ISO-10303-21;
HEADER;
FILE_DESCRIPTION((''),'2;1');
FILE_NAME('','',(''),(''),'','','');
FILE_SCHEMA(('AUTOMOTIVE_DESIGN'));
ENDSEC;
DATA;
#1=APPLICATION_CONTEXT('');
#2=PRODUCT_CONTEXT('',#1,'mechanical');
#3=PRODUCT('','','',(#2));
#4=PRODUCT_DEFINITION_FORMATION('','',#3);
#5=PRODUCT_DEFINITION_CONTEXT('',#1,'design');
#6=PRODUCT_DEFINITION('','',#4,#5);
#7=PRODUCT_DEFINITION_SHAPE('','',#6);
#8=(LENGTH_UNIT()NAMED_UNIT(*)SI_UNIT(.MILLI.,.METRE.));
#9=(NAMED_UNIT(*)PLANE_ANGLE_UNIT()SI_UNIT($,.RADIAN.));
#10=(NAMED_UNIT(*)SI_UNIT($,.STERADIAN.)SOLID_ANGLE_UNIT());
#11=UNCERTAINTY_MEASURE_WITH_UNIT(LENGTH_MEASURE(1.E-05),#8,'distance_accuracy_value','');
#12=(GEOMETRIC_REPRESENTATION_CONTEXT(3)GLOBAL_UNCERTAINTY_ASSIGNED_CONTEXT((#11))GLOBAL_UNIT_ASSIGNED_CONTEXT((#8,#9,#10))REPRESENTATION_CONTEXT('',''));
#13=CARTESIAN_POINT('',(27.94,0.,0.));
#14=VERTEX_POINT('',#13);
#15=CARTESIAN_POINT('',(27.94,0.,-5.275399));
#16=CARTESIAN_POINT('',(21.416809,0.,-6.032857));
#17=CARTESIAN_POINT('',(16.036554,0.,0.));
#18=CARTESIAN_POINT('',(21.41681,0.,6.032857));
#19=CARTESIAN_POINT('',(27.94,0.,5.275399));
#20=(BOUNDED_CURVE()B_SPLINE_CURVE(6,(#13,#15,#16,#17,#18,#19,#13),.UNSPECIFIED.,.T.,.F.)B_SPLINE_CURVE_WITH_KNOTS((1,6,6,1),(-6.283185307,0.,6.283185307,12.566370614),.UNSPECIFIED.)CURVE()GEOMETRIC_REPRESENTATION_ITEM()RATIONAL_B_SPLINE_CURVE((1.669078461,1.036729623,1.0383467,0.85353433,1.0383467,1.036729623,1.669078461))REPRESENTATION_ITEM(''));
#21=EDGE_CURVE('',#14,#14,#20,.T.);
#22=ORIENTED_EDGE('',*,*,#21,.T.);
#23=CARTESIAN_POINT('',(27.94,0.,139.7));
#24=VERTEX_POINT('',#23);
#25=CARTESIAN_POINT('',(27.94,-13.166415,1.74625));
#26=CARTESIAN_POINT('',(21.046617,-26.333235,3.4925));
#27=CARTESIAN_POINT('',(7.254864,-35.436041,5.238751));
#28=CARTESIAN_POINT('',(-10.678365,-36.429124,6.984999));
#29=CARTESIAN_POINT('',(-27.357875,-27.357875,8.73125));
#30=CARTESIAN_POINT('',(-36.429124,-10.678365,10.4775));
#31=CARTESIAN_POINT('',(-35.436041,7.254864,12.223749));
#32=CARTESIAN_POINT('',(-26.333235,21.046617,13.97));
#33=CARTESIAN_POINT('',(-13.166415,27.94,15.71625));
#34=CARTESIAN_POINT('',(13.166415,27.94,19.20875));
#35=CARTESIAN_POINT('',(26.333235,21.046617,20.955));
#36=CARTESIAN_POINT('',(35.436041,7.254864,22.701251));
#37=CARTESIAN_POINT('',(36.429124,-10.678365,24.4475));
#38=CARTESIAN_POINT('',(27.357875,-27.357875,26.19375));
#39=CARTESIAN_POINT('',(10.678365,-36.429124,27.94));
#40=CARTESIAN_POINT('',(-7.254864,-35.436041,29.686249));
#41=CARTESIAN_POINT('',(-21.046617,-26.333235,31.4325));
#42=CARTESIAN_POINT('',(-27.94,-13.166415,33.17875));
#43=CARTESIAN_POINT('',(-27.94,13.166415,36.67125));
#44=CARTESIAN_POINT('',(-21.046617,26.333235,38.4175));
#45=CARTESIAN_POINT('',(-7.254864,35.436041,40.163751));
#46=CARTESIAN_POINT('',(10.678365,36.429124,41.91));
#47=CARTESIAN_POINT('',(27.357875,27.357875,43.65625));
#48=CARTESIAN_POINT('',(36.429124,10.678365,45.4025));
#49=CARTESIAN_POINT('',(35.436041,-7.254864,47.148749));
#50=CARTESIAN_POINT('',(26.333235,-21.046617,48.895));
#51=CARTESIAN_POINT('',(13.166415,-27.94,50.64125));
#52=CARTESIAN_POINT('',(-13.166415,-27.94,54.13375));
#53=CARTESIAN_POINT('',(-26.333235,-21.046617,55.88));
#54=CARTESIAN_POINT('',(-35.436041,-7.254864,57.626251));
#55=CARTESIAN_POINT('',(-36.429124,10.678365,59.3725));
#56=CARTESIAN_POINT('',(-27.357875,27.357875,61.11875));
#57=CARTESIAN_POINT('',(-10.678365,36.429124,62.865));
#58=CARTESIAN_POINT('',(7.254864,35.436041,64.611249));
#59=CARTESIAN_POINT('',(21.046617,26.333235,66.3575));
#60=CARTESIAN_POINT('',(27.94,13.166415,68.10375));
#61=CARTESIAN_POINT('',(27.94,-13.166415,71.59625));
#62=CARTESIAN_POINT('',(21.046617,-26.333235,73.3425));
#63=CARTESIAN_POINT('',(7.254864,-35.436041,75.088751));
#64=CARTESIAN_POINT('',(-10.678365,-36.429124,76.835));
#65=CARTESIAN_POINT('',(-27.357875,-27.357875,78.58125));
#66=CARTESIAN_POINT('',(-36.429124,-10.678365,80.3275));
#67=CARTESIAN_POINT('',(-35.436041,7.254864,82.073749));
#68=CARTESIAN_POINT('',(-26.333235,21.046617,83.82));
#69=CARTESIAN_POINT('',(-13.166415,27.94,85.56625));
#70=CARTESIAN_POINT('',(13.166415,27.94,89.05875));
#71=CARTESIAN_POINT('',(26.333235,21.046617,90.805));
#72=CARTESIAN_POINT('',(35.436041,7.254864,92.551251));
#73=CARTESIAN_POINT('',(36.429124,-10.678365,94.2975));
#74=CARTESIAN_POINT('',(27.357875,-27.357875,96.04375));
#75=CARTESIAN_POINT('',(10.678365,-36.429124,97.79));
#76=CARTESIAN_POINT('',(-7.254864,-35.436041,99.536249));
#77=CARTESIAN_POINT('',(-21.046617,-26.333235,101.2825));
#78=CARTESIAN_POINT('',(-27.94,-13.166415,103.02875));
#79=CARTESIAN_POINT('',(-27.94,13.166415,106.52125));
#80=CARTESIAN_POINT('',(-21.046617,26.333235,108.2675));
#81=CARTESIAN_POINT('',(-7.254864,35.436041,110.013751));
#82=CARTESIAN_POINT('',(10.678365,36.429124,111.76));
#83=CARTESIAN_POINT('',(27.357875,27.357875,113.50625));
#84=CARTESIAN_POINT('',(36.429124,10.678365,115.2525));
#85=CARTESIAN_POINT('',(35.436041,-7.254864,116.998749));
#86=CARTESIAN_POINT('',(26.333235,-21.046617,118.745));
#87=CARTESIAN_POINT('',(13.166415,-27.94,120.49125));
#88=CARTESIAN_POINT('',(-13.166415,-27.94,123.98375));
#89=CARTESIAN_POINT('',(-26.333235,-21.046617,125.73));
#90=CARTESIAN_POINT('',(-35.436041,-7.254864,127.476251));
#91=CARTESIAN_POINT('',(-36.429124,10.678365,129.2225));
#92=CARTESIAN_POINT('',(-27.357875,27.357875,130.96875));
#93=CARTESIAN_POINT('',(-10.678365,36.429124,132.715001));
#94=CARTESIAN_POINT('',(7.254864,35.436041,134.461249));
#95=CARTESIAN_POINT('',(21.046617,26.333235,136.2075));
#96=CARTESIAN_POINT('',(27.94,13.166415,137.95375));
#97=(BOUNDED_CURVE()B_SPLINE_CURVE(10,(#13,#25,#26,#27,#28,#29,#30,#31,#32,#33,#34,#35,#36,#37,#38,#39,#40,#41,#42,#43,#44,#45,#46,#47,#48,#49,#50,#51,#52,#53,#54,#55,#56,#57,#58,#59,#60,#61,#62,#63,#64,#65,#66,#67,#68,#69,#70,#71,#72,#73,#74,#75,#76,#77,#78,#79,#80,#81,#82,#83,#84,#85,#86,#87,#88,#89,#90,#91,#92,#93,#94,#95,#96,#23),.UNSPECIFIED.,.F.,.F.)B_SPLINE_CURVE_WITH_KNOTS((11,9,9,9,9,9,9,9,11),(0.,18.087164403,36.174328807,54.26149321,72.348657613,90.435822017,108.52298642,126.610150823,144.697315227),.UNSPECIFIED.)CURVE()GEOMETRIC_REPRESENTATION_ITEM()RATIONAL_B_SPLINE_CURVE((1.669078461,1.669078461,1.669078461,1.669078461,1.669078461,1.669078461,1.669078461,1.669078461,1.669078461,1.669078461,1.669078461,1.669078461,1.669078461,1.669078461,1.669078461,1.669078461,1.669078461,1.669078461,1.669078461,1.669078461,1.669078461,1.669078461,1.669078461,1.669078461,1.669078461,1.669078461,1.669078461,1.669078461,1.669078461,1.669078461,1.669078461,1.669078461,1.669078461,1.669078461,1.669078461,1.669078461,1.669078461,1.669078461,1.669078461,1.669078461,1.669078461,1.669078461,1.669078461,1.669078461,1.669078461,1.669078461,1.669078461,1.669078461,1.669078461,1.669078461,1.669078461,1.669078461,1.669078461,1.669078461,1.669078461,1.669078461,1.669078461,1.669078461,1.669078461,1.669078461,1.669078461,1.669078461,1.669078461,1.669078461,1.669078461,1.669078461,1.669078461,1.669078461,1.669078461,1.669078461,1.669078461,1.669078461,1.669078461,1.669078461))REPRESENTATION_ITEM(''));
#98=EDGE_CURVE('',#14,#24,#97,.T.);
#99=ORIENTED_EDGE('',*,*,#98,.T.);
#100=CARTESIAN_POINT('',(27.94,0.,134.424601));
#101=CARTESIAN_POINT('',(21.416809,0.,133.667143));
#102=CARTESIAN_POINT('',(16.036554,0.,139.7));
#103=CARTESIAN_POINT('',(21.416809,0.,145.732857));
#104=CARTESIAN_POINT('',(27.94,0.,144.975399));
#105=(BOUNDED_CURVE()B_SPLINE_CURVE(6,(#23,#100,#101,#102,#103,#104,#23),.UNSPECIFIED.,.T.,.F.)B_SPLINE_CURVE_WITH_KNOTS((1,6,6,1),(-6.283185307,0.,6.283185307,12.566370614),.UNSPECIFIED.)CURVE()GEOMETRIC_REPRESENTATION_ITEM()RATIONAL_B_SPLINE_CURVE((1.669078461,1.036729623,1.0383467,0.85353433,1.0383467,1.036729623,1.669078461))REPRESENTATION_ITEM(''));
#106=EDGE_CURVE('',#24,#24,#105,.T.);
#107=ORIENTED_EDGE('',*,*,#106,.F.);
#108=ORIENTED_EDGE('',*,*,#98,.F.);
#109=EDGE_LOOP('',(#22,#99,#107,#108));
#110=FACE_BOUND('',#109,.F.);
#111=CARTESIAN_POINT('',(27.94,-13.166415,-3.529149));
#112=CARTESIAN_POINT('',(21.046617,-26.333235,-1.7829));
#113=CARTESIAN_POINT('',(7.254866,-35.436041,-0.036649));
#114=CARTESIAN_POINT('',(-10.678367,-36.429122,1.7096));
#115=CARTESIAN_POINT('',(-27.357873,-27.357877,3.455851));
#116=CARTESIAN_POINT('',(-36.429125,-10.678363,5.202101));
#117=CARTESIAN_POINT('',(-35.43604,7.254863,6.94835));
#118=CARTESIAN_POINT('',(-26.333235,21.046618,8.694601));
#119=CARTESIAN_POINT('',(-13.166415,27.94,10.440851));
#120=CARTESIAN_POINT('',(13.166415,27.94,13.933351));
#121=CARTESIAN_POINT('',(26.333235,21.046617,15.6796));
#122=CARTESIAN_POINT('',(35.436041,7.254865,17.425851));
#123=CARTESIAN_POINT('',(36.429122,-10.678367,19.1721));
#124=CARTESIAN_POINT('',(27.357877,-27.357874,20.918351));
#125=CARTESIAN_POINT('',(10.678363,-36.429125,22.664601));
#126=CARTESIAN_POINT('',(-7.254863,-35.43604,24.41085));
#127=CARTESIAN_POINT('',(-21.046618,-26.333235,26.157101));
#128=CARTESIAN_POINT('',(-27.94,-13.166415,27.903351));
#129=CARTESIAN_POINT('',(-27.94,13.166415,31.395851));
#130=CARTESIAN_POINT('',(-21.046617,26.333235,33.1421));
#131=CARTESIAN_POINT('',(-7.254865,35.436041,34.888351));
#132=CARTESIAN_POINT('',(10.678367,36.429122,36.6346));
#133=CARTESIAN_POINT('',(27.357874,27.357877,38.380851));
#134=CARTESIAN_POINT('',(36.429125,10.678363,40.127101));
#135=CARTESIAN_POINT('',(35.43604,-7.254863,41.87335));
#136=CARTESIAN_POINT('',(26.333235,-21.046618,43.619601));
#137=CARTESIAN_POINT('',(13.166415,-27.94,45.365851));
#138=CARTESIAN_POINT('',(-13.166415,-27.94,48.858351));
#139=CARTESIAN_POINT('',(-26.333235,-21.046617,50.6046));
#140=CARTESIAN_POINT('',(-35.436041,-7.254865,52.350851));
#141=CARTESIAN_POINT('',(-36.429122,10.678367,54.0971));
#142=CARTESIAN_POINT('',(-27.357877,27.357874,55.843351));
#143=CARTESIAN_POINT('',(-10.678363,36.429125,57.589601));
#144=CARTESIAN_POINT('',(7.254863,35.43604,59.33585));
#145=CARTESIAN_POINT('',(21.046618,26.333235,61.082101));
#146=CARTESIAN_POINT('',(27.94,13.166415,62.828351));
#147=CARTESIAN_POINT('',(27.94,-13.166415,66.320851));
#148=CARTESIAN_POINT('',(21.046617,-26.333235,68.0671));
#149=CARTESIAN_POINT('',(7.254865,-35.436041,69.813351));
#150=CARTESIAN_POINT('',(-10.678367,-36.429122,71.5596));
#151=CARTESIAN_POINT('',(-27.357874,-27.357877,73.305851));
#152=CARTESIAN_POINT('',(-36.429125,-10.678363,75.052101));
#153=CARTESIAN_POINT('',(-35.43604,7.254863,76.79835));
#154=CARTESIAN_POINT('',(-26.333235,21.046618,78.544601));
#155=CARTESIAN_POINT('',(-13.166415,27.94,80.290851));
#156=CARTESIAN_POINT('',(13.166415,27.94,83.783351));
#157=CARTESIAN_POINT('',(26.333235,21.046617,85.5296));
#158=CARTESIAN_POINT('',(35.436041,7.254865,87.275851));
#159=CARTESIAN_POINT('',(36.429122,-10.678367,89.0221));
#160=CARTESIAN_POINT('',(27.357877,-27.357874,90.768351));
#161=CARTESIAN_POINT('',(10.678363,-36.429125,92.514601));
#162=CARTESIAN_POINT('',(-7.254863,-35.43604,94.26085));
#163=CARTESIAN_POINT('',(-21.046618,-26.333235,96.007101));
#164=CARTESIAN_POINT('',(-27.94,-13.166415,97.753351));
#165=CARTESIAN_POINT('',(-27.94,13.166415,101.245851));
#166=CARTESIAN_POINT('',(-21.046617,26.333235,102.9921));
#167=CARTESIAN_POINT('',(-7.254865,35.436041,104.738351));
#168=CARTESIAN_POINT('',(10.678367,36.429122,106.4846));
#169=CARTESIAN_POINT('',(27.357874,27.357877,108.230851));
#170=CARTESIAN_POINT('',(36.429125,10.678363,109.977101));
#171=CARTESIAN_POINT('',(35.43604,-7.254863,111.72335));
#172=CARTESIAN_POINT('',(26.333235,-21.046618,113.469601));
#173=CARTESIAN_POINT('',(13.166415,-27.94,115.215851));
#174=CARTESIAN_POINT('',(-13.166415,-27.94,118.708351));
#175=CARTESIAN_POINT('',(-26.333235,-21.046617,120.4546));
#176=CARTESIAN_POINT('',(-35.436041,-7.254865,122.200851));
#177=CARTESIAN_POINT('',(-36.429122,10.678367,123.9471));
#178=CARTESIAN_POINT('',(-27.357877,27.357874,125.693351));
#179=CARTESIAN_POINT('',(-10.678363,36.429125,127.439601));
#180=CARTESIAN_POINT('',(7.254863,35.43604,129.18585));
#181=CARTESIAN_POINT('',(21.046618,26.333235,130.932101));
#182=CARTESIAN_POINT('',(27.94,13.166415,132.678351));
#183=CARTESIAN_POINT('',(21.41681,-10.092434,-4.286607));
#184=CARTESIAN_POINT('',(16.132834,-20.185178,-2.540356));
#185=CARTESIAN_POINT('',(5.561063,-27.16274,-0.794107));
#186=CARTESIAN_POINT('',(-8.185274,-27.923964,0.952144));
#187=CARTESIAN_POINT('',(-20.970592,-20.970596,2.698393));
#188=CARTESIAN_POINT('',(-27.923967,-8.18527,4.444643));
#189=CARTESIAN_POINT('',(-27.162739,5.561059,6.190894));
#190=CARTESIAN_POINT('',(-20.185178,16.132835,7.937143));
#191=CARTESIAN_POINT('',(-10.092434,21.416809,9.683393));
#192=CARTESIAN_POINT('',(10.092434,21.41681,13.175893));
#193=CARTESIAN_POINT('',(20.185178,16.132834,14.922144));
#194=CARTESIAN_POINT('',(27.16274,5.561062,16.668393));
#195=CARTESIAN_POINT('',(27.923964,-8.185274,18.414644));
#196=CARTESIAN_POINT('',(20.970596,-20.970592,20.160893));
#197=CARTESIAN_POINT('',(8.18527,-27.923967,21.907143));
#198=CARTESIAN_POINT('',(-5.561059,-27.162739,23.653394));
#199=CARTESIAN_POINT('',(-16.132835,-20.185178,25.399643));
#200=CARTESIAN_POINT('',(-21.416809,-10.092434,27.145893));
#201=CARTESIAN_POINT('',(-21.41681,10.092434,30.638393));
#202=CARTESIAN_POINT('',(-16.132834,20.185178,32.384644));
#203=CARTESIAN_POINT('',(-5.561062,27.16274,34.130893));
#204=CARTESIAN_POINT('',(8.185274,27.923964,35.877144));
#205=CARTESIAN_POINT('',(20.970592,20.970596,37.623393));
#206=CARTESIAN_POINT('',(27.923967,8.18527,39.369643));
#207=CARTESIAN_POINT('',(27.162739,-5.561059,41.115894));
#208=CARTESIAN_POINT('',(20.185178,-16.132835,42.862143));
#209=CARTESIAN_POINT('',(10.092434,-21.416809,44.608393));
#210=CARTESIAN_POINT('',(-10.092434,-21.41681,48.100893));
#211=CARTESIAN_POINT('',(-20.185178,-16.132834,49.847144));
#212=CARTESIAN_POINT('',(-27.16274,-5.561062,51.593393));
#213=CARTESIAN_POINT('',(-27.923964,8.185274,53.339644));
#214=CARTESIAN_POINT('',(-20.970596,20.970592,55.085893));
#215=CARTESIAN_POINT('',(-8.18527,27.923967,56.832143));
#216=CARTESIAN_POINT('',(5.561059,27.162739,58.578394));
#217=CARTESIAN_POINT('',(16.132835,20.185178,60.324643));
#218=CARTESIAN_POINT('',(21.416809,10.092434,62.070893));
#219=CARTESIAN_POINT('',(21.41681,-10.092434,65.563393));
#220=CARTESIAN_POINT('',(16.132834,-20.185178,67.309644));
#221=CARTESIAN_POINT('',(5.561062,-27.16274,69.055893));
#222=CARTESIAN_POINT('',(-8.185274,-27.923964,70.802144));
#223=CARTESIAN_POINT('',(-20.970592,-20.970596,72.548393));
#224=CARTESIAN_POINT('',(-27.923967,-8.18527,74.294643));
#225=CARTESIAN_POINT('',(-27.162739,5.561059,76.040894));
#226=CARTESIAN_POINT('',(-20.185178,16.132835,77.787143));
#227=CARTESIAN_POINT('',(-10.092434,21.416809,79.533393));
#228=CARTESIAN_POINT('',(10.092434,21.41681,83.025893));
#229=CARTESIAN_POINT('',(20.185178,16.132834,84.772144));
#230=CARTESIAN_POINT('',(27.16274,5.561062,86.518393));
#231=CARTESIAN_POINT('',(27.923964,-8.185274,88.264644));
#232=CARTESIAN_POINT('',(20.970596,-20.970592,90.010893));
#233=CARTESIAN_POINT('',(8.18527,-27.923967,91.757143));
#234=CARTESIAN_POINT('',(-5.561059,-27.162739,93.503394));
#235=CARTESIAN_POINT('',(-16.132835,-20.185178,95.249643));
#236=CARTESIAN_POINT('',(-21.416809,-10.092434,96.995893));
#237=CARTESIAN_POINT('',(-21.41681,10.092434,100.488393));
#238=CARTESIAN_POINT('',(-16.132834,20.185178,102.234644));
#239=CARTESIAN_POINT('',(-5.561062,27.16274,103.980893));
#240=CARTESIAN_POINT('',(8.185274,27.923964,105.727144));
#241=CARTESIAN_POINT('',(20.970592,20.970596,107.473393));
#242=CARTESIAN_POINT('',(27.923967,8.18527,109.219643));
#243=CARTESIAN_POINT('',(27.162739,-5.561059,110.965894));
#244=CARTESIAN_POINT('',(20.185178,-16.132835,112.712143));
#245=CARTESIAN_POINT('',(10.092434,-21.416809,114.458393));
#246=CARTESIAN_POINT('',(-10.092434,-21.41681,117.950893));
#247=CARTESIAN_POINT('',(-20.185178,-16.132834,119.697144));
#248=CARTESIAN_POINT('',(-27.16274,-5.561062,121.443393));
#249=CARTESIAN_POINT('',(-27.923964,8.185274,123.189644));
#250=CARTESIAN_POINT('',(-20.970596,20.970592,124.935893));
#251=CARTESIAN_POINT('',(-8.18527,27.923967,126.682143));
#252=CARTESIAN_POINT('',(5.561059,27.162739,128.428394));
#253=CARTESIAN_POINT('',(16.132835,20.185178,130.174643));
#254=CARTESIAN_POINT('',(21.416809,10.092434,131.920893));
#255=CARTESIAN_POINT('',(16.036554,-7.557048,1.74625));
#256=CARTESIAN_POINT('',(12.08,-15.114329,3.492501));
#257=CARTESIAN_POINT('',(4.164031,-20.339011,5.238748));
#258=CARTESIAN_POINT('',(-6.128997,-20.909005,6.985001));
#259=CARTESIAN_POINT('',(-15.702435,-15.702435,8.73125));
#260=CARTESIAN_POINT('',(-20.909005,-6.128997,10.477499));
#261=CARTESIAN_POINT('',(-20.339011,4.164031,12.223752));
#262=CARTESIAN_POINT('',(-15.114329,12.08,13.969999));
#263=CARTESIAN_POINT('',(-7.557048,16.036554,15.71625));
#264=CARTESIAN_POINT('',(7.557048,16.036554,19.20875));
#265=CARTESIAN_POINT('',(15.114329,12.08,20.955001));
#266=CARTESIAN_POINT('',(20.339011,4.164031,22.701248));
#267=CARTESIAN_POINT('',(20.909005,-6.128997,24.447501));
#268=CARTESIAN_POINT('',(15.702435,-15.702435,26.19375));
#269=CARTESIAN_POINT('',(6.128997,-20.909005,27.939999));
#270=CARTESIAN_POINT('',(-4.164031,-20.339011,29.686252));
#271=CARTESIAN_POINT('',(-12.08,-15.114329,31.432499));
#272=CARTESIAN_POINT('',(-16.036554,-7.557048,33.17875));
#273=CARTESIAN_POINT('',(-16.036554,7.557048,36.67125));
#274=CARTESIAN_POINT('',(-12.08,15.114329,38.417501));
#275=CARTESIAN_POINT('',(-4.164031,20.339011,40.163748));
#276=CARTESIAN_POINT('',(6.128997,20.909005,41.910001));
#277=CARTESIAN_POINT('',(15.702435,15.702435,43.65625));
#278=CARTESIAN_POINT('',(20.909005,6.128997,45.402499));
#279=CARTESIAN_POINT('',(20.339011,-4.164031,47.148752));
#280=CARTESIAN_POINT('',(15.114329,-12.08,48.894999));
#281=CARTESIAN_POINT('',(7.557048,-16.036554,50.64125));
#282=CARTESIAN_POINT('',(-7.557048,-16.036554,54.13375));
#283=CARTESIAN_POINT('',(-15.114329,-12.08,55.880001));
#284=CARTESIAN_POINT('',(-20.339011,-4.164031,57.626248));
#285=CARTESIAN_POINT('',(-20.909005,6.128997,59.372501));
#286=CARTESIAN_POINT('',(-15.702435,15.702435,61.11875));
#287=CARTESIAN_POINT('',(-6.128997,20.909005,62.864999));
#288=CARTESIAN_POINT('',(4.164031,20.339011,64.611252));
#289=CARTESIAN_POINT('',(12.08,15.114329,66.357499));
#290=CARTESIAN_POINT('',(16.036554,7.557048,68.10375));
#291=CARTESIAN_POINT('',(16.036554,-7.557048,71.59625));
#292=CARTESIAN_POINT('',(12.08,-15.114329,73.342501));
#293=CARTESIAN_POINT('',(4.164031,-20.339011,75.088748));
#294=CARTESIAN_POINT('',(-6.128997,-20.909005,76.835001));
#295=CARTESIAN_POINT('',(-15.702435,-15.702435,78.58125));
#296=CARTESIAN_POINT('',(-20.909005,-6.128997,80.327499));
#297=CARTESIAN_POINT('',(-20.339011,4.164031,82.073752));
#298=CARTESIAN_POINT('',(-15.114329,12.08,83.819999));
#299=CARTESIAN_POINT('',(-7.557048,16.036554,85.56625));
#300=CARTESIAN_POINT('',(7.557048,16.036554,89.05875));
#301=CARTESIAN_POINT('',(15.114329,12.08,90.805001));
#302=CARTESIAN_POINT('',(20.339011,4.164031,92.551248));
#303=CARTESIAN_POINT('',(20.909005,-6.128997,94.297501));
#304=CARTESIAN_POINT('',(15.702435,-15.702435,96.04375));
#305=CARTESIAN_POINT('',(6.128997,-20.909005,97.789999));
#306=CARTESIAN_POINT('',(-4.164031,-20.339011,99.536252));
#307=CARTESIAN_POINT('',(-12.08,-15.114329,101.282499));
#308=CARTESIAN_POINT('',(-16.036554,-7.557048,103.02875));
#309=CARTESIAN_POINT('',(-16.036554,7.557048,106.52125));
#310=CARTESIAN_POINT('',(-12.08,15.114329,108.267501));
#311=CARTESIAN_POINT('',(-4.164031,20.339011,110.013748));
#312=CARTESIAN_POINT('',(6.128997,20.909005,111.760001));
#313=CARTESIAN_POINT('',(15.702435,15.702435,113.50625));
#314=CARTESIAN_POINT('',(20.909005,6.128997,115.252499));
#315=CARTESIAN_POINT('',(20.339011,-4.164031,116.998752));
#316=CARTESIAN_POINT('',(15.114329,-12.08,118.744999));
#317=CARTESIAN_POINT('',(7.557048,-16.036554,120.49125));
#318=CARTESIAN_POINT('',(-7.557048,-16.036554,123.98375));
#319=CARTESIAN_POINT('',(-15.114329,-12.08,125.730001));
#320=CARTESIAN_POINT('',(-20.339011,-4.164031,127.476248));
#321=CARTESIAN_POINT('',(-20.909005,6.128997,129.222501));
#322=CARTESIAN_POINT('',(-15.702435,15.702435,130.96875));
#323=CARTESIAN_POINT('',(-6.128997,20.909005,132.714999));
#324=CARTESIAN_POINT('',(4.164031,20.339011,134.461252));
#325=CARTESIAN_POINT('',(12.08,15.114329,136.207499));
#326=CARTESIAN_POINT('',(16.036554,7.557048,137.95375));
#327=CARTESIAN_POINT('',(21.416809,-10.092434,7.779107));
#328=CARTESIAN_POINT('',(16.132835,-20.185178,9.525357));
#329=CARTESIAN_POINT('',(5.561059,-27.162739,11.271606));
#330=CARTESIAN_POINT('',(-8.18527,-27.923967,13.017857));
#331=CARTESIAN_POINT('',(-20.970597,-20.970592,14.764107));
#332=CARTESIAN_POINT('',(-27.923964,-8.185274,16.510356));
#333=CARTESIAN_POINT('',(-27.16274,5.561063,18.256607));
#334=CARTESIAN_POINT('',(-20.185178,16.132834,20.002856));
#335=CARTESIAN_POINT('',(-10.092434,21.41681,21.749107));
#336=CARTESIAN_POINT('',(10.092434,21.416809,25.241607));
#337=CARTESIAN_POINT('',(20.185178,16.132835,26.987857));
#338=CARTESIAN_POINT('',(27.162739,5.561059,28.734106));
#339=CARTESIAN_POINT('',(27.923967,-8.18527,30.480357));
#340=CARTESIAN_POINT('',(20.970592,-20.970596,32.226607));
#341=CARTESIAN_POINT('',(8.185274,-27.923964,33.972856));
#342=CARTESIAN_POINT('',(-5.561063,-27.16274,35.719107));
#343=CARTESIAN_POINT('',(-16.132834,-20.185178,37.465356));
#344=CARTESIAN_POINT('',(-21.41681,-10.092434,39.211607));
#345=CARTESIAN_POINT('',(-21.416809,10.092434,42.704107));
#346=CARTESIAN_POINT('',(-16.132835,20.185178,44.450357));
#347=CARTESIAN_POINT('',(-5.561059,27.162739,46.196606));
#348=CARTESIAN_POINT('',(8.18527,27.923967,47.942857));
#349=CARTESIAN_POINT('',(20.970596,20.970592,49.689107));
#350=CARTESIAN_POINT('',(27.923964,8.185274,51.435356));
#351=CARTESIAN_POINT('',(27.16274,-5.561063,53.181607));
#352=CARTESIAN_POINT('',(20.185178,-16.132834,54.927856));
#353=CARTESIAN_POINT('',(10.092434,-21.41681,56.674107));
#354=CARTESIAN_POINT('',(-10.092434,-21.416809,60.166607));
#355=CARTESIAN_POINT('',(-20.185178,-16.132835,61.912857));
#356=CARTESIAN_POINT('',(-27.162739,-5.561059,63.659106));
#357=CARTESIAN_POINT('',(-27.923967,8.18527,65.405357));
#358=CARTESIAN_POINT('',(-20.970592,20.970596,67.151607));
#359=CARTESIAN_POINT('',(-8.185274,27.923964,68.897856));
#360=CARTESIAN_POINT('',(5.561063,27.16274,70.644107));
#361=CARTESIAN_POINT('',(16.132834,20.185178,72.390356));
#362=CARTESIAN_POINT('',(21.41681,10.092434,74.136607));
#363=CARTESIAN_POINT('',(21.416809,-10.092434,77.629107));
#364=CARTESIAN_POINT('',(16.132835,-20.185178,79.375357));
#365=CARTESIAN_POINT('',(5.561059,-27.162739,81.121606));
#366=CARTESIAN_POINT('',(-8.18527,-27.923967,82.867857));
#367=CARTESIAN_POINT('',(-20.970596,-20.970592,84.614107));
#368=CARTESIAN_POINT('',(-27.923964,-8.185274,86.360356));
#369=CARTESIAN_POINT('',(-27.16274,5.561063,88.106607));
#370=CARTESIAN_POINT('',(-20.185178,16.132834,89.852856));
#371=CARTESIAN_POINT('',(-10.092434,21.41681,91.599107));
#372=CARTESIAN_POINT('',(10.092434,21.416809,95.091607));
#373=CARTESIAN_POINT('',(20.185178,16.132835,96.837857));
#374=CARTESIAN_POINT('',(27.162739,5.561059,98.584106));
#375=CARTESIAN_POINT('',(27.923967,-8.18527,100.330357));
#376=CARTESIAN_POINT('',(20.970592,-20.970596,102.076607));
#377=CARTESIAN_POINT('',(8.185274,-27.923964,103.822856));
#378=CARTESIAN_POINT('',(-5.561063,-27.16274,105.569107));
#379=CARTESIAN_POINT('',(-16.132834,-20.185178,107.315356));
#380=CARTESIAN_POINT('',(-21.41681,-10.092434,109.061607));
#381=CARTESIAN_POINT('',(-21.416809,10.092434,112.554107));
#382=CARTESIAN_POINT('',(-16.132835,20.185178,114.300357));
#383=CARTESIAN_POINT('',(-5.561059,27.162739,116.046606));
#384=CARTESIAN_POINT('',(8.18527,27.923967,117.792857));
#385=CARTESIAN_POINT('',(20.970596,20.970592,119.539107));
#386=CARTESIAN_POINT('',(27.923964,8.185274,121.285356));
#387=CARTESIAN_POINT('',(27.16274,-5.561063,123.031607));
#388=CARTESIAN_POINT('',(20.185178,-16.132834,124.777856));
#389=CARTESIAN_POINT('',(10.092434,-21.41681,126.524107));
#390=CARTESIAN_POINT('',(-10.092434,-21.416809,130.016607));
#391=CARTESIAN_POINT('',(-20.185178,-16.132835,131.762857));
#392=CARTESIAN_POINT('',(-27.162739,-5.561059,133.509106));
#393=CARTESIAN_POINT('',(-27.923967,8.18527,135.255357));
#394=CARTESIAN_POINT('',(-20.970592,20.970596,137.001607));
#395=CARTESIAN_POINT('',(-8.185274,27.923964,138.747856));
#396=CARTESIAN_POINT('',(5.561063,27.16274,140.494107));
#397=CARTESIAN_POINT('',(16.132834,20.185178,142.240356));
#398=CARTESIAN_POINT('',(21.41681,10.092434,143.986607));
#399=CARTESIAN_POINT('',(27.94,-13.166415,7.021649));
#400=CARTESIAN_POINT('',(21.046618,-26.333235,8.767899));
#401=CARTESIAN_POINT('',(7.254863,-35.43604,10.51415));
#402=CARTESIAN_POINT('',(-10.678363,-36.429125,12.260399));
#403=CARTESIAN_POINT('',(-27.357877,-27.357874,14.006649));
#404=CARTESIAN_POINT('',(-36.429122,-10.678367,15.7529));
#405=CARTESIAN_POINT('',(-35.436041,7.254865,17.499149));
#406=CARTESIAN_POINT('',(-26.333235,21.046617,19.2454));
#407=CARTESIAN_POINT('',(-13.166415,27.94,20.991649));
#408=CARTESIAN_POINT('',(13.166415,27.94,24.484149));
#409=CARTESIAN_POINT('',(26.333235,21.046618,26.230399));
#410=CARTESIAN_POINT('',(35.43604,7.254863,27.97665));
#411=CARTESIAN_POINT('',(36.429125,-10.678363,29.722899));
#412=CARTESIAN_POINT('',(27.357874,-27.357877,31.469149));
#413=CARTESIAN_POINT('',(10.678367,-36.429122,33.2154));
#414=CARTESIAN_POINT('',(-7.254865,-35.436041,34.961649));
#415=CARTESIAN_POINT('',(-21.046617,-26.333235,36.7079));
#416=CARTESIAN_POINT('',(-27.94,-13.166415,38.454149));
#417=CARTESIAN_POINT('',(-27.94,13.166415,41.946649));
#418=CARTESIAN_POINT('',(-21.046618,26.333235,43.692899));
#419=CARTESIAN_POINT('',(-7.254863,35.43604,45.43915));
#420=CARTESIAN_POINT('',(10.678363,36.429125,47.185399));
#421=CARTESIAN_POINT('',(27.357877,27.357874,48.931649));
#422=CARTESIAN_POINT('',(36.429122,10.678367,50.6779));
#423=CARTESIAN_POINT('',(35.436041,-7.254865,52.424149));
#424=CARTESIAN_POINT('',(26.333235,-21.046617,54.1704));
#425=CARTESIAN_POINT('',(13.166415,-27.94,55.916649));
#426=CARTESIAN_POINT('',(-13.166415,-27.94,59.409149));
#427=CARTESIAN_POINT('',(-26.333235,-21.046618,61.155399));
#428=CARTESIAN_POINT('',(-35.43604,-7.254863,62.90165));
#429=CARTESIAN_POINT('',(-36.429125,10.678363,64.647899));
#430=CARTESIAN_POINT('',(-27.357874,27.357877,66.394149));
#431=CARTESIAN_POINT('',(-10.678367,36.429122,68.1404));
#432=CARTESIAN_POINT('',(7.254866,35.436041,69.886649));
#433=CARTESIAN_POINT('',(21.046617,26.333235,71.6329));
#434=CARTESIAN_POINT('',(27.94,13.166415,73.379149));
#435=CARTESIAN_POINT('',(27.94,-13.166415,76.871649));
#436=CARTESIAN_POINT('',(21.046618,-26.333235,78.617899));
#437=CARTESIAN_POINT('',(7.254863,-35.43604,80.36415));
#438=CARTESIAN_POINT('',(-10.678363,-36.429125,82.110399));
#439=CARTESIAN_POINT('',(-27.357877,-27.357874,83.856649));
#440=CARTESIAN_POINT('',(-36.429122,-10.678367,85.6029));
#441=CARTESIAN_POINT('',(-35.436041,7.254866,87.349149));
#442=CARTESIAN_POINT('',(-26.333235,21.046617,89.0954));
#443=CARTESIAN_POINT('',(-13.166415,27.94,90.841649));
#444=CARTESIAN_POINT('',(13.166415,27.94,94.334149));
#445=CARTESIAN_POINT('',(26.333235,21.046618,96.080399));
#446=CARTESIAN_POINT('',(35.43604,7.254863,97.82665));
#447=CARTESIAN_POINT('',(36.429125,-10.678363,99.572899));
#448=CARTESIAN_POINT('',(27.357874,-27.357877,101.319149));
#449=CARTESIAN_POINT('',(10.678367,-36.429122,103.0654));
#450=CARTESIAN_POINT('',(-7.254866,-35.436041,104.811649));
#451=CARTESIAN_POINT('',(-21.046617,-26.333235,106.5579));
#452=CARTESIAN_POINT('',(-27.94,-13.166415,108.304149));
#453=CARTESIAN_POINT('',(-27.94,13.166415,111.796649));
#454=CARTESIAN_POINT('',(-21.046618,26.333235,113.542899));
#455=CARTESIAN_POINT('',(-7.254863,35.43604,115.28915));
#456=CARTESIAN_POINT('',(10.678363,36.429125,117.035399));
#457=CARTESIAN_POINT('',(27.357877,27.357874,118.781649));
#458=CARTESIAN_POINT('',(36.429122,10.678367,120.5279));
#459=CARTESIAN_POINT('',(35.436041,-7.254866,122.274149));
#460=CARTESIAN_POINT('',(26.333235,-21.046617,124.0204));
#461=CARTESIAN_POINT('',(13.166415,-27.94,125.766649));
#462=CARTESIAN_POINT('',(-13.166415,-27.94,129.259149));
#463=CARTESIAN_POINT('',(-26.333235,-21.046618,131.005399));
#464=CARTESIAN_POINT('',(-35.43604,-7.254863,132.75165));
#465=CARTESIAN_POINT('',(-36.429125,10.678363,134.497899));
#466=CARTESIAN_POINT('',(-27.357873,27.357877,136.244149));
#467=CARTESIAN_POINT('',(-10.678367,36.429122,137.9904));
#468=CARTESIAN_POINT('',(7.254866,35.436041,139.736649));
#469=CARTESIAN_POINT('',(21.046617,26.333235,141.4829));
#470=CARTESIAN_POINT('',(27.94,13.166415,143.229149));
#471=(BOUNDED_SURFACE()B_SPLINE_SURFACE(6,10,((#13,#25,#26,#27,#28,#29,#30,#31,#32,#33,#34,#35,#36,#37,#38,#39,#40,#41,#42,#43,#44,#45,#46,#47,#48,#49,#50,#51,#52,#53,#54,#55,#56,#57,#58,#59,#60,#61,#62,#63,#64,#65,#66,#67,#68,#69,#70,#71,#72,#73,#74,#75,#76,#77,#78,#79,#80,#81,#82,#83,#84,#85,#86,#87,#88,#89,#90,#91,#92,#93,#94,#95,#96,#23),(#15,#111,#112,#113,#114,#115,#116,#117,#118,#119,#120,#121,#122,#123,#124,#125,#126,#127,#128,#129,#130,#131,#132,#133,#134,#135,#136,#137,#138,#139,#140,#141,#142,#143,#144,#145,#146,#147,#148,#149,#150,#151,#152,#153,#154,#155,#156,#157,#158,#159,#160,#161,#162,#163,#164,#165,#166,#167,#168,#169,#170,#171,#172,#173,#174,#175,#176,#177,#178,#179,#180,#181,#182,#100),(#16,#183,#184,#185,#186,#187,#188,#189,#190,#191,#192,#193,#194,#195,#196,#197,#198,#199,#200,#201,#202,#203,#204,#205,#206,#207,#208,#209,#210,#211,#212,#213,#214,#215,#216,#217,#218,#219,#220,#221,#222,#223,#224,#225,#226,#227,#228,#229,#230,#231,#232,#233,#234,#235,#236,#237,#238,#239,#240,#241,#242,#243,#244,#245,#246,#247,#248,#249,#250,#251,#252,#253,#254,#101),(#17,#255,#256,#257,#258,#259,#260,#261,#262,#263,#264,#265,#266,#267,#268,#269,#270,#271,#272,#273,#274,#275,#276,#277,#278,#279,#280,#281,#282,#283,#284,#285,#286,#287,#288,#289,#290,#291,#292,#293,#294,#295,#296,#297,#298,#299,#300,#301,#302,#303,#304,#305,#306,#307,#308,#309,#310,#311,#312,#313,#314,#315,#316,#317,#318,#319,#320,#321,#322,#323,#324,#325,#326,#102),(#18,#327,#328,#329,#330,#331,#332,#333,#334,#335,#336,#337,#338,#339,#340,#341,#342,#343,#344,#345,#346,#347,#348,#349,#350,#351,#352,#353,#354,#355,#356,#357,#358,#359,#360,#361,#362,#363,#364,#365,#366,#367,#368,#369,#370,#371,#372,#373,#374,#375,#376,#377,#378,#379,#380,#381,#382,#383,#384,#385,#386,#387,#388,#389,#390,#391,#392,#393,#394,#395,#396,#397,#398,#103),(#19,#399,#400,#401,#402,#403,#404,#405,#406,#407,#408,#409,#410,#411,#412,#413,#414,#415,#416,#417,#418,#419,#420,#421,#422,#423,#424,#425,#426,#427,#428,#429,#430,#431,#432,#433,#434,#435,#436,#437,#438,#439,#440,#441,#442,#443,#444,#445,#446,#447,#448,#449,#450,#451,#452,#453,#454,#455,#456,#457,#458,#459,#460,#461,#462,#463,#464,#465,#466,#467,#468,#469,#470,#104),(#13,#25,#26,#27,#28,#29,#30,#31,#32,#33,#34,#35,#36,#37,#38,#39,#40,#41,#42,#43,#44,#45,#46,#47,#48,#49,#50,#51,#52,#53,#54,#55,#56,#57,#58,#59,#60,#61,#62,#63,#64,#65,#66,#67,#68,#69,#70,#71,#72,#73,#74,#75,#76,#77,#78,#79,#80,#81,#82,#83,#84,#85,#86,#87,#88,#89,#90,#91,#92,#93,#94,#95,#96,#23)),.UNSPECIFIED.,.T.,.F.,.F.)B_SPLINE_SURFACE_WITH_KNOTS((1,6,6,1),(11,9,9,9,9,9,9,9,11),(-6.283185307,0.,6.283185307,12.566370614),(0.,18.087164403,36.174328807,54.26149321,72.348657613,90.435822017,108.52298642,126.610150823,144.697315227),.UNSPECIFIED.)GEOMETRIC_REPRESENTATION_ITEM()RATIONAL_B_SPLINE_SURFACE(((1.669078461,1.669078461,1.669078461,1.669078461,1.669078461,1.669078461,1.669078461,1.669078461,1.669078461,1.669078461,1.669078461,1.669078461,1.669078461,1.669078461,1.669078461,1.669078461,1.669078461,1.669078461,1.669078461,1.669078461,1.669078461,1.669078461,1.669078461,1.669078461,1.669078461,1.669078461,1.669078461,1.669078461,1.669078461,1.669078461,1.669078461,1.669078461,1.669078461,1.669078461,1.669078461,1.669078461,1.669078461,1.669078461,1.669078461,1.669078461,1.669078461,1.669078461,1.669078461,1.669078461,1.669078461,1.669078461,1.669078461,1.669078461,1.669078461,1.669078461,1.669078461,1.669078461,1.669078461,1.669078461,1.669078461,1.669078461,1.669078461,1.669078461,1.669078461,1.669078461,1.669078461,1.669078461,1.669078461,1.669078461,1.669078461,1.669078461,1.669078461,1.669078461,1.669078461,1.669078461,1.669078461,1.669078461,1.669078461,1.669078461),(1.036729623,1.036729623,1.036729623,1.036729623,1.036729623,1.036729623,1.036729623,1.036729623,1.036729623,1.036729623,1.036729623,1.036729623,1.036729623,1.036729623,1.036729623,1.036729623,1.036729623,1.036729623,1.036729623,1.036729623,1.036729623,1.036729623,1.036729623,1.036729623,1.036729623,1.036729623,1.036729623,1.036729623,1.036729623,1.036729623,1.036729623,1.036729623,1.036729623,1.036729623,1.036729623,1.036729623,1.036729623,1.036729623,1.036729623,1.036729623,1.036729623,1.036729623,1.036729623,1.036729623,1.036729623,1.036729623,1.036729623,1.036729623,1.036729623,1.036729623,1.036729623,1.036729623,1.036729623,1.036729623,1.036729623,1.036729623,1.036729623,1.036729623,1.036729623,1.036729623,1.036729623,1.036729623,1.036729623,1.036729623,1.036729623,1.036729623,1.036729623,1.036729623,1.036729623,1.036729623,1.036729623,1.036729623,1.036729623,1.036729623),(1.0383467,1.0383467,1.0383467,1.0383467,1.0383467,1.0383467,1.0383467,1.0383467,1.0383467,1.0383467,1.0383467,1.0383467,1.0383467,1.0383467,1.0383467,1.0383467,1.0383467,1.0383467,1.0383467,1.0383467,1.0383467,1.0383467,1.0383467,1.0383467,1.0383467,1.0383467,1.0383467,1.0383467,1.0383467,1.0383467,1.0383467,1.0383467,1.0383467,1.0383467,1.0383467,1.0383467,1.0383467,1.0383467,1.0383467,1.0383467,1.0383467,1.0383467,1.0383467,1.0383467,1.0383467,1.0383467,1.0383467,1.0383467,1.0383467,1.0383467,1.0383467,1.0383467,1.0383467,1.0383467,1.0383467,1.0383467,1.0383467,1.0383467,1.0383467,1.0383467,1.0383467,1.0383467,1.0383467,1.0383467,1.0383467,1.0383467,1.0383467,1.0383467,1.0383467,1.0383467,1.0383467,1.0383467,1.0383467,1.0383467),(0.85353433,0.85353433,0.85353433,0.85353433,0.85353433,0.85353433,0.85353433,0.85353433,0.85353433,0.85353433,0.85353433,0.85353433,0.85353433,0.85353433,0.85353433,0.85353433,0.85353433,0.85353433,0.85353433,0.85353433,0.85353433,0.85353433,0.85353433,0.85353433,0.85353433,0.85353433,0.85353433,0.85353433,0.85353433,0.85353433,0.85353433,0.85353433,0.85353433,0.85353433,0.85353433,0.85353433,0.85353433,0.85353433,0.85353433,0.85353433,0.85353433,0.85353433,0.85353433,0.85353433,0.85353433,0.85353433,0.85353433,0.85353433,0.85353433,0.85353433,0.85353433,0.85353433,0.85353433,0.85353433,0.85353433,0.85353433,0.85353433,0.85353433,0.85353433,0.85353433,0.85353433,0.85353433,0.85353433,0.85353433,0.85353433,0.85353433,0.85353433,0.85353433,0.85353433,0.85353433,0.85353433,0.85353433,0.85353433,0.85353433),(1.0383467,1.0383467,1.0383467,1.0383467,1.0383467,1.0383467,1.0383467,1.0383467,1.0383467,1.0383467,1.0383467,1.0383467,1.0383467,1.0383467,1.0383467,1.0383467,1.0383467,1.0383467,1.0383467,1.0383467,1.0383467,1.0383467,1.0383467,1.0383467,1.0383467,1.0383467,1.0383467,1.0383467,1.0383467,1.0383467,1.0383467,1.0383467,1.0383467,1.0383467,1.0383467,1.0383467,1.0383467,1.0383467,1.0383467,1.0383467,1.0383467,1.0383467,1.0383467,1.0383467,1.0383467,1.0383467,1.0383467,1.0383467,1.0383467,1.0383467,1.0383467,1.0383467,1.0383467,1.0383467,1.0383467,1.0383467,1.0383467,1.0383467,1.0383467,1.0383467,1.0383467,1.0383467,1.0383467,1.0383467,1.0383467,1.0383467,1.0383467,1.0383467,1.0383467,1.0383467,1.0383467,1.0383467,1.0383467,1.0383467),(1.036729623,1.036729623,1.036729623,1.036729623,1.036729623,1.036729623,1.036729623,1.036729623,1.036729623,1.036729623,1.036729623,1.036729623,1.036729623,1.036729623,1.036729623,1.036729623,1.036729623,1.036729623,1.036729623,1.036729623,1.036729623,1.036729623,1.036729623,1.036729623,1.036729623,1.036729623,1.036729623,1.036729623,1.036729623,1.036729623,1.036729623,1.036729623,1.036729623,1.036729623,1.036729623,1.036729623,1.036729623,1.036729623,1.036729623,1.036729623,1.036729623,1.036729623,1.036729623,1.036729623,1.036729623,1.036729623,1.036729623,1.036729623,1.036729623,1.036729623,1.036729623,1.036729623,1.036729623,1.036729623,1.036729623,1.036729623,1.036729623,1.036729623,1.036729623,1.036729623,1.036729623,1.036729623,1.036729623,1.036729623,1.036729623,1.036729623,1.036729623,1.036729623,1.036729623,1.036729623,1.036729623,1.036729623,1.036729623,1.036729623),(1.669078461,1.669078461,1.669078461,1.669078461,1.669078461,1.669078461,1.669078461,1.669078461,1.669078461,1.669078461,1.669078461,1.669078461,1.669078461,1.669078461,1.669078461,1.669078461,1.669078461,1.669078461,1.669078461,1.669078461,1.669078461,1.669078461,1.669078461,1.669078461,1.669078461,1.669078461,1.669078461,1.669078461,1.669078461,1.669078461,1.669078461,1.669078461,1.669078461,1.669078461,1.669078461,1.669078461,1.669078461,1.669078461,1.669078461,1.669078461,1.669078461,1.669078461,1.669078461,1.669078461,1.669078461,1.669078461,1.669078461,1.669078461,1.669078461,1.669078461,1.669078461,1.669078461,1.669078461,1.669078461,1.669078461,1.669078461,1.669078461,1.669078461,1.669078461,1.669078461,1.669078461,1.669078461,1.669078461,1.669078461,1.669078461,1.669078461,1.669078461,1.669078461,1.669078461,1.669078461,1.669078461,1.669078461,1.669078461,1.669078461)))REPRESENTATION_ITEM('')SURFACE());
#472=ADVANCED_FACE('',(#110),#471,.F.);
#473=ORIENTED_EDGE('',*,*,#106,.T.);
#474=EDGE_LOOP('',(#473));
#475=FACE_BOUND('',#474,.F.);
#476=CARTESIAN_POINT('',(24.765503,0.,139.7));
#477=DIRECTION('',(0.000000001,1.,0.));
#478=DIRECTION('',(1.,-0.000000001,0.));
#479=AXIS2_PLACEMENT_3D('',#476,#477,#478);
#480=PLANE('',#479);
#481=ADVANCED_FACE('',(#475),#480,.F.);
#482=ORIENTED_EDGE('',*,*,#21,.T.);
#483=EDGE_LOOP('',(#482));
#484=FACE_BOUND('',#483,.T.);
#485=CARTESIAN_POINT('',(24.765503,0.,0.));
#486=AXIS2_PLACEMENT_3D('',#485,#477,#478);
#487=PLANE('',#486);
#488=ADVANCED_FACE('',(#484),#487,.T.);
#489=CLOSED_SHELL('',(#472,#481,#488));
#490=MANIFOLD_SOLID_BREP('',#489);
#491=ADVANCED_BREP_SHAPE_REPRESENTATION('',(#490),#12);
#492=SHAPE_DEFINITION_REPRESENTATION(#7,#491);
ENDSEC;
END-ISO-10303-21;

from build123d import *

# Parameters (mm, degrees)
SPRING_PITCH  = 23.283333333
SPRING_HEIGHT = 139.7
SPRING_RADIUS = 24.765
SKETCH2_R     = 3.175


with BuildPart() as part:
    # Spring: sweep along a helix
    with BuildLine() as spring_path:
        Helix(SPRING_PITCH, SPRING_HEIGHT, SPRING_RADIUS, center=(0, 0, 0), direction=(0, 0, 1), lefthand=True)
    # Sketch2 → Spring (sweep)
    with BuildSketch(Plane(origin=(0, 0, 0), x_dir=(1, 0, 0), z_dir=(0, 1, 0))):
        with Locations((24.765, -139.7)):
            Circle(SKETCH2_R)
    sweep(path=spring_path.line, is_frenet=True)


solid = part.part
